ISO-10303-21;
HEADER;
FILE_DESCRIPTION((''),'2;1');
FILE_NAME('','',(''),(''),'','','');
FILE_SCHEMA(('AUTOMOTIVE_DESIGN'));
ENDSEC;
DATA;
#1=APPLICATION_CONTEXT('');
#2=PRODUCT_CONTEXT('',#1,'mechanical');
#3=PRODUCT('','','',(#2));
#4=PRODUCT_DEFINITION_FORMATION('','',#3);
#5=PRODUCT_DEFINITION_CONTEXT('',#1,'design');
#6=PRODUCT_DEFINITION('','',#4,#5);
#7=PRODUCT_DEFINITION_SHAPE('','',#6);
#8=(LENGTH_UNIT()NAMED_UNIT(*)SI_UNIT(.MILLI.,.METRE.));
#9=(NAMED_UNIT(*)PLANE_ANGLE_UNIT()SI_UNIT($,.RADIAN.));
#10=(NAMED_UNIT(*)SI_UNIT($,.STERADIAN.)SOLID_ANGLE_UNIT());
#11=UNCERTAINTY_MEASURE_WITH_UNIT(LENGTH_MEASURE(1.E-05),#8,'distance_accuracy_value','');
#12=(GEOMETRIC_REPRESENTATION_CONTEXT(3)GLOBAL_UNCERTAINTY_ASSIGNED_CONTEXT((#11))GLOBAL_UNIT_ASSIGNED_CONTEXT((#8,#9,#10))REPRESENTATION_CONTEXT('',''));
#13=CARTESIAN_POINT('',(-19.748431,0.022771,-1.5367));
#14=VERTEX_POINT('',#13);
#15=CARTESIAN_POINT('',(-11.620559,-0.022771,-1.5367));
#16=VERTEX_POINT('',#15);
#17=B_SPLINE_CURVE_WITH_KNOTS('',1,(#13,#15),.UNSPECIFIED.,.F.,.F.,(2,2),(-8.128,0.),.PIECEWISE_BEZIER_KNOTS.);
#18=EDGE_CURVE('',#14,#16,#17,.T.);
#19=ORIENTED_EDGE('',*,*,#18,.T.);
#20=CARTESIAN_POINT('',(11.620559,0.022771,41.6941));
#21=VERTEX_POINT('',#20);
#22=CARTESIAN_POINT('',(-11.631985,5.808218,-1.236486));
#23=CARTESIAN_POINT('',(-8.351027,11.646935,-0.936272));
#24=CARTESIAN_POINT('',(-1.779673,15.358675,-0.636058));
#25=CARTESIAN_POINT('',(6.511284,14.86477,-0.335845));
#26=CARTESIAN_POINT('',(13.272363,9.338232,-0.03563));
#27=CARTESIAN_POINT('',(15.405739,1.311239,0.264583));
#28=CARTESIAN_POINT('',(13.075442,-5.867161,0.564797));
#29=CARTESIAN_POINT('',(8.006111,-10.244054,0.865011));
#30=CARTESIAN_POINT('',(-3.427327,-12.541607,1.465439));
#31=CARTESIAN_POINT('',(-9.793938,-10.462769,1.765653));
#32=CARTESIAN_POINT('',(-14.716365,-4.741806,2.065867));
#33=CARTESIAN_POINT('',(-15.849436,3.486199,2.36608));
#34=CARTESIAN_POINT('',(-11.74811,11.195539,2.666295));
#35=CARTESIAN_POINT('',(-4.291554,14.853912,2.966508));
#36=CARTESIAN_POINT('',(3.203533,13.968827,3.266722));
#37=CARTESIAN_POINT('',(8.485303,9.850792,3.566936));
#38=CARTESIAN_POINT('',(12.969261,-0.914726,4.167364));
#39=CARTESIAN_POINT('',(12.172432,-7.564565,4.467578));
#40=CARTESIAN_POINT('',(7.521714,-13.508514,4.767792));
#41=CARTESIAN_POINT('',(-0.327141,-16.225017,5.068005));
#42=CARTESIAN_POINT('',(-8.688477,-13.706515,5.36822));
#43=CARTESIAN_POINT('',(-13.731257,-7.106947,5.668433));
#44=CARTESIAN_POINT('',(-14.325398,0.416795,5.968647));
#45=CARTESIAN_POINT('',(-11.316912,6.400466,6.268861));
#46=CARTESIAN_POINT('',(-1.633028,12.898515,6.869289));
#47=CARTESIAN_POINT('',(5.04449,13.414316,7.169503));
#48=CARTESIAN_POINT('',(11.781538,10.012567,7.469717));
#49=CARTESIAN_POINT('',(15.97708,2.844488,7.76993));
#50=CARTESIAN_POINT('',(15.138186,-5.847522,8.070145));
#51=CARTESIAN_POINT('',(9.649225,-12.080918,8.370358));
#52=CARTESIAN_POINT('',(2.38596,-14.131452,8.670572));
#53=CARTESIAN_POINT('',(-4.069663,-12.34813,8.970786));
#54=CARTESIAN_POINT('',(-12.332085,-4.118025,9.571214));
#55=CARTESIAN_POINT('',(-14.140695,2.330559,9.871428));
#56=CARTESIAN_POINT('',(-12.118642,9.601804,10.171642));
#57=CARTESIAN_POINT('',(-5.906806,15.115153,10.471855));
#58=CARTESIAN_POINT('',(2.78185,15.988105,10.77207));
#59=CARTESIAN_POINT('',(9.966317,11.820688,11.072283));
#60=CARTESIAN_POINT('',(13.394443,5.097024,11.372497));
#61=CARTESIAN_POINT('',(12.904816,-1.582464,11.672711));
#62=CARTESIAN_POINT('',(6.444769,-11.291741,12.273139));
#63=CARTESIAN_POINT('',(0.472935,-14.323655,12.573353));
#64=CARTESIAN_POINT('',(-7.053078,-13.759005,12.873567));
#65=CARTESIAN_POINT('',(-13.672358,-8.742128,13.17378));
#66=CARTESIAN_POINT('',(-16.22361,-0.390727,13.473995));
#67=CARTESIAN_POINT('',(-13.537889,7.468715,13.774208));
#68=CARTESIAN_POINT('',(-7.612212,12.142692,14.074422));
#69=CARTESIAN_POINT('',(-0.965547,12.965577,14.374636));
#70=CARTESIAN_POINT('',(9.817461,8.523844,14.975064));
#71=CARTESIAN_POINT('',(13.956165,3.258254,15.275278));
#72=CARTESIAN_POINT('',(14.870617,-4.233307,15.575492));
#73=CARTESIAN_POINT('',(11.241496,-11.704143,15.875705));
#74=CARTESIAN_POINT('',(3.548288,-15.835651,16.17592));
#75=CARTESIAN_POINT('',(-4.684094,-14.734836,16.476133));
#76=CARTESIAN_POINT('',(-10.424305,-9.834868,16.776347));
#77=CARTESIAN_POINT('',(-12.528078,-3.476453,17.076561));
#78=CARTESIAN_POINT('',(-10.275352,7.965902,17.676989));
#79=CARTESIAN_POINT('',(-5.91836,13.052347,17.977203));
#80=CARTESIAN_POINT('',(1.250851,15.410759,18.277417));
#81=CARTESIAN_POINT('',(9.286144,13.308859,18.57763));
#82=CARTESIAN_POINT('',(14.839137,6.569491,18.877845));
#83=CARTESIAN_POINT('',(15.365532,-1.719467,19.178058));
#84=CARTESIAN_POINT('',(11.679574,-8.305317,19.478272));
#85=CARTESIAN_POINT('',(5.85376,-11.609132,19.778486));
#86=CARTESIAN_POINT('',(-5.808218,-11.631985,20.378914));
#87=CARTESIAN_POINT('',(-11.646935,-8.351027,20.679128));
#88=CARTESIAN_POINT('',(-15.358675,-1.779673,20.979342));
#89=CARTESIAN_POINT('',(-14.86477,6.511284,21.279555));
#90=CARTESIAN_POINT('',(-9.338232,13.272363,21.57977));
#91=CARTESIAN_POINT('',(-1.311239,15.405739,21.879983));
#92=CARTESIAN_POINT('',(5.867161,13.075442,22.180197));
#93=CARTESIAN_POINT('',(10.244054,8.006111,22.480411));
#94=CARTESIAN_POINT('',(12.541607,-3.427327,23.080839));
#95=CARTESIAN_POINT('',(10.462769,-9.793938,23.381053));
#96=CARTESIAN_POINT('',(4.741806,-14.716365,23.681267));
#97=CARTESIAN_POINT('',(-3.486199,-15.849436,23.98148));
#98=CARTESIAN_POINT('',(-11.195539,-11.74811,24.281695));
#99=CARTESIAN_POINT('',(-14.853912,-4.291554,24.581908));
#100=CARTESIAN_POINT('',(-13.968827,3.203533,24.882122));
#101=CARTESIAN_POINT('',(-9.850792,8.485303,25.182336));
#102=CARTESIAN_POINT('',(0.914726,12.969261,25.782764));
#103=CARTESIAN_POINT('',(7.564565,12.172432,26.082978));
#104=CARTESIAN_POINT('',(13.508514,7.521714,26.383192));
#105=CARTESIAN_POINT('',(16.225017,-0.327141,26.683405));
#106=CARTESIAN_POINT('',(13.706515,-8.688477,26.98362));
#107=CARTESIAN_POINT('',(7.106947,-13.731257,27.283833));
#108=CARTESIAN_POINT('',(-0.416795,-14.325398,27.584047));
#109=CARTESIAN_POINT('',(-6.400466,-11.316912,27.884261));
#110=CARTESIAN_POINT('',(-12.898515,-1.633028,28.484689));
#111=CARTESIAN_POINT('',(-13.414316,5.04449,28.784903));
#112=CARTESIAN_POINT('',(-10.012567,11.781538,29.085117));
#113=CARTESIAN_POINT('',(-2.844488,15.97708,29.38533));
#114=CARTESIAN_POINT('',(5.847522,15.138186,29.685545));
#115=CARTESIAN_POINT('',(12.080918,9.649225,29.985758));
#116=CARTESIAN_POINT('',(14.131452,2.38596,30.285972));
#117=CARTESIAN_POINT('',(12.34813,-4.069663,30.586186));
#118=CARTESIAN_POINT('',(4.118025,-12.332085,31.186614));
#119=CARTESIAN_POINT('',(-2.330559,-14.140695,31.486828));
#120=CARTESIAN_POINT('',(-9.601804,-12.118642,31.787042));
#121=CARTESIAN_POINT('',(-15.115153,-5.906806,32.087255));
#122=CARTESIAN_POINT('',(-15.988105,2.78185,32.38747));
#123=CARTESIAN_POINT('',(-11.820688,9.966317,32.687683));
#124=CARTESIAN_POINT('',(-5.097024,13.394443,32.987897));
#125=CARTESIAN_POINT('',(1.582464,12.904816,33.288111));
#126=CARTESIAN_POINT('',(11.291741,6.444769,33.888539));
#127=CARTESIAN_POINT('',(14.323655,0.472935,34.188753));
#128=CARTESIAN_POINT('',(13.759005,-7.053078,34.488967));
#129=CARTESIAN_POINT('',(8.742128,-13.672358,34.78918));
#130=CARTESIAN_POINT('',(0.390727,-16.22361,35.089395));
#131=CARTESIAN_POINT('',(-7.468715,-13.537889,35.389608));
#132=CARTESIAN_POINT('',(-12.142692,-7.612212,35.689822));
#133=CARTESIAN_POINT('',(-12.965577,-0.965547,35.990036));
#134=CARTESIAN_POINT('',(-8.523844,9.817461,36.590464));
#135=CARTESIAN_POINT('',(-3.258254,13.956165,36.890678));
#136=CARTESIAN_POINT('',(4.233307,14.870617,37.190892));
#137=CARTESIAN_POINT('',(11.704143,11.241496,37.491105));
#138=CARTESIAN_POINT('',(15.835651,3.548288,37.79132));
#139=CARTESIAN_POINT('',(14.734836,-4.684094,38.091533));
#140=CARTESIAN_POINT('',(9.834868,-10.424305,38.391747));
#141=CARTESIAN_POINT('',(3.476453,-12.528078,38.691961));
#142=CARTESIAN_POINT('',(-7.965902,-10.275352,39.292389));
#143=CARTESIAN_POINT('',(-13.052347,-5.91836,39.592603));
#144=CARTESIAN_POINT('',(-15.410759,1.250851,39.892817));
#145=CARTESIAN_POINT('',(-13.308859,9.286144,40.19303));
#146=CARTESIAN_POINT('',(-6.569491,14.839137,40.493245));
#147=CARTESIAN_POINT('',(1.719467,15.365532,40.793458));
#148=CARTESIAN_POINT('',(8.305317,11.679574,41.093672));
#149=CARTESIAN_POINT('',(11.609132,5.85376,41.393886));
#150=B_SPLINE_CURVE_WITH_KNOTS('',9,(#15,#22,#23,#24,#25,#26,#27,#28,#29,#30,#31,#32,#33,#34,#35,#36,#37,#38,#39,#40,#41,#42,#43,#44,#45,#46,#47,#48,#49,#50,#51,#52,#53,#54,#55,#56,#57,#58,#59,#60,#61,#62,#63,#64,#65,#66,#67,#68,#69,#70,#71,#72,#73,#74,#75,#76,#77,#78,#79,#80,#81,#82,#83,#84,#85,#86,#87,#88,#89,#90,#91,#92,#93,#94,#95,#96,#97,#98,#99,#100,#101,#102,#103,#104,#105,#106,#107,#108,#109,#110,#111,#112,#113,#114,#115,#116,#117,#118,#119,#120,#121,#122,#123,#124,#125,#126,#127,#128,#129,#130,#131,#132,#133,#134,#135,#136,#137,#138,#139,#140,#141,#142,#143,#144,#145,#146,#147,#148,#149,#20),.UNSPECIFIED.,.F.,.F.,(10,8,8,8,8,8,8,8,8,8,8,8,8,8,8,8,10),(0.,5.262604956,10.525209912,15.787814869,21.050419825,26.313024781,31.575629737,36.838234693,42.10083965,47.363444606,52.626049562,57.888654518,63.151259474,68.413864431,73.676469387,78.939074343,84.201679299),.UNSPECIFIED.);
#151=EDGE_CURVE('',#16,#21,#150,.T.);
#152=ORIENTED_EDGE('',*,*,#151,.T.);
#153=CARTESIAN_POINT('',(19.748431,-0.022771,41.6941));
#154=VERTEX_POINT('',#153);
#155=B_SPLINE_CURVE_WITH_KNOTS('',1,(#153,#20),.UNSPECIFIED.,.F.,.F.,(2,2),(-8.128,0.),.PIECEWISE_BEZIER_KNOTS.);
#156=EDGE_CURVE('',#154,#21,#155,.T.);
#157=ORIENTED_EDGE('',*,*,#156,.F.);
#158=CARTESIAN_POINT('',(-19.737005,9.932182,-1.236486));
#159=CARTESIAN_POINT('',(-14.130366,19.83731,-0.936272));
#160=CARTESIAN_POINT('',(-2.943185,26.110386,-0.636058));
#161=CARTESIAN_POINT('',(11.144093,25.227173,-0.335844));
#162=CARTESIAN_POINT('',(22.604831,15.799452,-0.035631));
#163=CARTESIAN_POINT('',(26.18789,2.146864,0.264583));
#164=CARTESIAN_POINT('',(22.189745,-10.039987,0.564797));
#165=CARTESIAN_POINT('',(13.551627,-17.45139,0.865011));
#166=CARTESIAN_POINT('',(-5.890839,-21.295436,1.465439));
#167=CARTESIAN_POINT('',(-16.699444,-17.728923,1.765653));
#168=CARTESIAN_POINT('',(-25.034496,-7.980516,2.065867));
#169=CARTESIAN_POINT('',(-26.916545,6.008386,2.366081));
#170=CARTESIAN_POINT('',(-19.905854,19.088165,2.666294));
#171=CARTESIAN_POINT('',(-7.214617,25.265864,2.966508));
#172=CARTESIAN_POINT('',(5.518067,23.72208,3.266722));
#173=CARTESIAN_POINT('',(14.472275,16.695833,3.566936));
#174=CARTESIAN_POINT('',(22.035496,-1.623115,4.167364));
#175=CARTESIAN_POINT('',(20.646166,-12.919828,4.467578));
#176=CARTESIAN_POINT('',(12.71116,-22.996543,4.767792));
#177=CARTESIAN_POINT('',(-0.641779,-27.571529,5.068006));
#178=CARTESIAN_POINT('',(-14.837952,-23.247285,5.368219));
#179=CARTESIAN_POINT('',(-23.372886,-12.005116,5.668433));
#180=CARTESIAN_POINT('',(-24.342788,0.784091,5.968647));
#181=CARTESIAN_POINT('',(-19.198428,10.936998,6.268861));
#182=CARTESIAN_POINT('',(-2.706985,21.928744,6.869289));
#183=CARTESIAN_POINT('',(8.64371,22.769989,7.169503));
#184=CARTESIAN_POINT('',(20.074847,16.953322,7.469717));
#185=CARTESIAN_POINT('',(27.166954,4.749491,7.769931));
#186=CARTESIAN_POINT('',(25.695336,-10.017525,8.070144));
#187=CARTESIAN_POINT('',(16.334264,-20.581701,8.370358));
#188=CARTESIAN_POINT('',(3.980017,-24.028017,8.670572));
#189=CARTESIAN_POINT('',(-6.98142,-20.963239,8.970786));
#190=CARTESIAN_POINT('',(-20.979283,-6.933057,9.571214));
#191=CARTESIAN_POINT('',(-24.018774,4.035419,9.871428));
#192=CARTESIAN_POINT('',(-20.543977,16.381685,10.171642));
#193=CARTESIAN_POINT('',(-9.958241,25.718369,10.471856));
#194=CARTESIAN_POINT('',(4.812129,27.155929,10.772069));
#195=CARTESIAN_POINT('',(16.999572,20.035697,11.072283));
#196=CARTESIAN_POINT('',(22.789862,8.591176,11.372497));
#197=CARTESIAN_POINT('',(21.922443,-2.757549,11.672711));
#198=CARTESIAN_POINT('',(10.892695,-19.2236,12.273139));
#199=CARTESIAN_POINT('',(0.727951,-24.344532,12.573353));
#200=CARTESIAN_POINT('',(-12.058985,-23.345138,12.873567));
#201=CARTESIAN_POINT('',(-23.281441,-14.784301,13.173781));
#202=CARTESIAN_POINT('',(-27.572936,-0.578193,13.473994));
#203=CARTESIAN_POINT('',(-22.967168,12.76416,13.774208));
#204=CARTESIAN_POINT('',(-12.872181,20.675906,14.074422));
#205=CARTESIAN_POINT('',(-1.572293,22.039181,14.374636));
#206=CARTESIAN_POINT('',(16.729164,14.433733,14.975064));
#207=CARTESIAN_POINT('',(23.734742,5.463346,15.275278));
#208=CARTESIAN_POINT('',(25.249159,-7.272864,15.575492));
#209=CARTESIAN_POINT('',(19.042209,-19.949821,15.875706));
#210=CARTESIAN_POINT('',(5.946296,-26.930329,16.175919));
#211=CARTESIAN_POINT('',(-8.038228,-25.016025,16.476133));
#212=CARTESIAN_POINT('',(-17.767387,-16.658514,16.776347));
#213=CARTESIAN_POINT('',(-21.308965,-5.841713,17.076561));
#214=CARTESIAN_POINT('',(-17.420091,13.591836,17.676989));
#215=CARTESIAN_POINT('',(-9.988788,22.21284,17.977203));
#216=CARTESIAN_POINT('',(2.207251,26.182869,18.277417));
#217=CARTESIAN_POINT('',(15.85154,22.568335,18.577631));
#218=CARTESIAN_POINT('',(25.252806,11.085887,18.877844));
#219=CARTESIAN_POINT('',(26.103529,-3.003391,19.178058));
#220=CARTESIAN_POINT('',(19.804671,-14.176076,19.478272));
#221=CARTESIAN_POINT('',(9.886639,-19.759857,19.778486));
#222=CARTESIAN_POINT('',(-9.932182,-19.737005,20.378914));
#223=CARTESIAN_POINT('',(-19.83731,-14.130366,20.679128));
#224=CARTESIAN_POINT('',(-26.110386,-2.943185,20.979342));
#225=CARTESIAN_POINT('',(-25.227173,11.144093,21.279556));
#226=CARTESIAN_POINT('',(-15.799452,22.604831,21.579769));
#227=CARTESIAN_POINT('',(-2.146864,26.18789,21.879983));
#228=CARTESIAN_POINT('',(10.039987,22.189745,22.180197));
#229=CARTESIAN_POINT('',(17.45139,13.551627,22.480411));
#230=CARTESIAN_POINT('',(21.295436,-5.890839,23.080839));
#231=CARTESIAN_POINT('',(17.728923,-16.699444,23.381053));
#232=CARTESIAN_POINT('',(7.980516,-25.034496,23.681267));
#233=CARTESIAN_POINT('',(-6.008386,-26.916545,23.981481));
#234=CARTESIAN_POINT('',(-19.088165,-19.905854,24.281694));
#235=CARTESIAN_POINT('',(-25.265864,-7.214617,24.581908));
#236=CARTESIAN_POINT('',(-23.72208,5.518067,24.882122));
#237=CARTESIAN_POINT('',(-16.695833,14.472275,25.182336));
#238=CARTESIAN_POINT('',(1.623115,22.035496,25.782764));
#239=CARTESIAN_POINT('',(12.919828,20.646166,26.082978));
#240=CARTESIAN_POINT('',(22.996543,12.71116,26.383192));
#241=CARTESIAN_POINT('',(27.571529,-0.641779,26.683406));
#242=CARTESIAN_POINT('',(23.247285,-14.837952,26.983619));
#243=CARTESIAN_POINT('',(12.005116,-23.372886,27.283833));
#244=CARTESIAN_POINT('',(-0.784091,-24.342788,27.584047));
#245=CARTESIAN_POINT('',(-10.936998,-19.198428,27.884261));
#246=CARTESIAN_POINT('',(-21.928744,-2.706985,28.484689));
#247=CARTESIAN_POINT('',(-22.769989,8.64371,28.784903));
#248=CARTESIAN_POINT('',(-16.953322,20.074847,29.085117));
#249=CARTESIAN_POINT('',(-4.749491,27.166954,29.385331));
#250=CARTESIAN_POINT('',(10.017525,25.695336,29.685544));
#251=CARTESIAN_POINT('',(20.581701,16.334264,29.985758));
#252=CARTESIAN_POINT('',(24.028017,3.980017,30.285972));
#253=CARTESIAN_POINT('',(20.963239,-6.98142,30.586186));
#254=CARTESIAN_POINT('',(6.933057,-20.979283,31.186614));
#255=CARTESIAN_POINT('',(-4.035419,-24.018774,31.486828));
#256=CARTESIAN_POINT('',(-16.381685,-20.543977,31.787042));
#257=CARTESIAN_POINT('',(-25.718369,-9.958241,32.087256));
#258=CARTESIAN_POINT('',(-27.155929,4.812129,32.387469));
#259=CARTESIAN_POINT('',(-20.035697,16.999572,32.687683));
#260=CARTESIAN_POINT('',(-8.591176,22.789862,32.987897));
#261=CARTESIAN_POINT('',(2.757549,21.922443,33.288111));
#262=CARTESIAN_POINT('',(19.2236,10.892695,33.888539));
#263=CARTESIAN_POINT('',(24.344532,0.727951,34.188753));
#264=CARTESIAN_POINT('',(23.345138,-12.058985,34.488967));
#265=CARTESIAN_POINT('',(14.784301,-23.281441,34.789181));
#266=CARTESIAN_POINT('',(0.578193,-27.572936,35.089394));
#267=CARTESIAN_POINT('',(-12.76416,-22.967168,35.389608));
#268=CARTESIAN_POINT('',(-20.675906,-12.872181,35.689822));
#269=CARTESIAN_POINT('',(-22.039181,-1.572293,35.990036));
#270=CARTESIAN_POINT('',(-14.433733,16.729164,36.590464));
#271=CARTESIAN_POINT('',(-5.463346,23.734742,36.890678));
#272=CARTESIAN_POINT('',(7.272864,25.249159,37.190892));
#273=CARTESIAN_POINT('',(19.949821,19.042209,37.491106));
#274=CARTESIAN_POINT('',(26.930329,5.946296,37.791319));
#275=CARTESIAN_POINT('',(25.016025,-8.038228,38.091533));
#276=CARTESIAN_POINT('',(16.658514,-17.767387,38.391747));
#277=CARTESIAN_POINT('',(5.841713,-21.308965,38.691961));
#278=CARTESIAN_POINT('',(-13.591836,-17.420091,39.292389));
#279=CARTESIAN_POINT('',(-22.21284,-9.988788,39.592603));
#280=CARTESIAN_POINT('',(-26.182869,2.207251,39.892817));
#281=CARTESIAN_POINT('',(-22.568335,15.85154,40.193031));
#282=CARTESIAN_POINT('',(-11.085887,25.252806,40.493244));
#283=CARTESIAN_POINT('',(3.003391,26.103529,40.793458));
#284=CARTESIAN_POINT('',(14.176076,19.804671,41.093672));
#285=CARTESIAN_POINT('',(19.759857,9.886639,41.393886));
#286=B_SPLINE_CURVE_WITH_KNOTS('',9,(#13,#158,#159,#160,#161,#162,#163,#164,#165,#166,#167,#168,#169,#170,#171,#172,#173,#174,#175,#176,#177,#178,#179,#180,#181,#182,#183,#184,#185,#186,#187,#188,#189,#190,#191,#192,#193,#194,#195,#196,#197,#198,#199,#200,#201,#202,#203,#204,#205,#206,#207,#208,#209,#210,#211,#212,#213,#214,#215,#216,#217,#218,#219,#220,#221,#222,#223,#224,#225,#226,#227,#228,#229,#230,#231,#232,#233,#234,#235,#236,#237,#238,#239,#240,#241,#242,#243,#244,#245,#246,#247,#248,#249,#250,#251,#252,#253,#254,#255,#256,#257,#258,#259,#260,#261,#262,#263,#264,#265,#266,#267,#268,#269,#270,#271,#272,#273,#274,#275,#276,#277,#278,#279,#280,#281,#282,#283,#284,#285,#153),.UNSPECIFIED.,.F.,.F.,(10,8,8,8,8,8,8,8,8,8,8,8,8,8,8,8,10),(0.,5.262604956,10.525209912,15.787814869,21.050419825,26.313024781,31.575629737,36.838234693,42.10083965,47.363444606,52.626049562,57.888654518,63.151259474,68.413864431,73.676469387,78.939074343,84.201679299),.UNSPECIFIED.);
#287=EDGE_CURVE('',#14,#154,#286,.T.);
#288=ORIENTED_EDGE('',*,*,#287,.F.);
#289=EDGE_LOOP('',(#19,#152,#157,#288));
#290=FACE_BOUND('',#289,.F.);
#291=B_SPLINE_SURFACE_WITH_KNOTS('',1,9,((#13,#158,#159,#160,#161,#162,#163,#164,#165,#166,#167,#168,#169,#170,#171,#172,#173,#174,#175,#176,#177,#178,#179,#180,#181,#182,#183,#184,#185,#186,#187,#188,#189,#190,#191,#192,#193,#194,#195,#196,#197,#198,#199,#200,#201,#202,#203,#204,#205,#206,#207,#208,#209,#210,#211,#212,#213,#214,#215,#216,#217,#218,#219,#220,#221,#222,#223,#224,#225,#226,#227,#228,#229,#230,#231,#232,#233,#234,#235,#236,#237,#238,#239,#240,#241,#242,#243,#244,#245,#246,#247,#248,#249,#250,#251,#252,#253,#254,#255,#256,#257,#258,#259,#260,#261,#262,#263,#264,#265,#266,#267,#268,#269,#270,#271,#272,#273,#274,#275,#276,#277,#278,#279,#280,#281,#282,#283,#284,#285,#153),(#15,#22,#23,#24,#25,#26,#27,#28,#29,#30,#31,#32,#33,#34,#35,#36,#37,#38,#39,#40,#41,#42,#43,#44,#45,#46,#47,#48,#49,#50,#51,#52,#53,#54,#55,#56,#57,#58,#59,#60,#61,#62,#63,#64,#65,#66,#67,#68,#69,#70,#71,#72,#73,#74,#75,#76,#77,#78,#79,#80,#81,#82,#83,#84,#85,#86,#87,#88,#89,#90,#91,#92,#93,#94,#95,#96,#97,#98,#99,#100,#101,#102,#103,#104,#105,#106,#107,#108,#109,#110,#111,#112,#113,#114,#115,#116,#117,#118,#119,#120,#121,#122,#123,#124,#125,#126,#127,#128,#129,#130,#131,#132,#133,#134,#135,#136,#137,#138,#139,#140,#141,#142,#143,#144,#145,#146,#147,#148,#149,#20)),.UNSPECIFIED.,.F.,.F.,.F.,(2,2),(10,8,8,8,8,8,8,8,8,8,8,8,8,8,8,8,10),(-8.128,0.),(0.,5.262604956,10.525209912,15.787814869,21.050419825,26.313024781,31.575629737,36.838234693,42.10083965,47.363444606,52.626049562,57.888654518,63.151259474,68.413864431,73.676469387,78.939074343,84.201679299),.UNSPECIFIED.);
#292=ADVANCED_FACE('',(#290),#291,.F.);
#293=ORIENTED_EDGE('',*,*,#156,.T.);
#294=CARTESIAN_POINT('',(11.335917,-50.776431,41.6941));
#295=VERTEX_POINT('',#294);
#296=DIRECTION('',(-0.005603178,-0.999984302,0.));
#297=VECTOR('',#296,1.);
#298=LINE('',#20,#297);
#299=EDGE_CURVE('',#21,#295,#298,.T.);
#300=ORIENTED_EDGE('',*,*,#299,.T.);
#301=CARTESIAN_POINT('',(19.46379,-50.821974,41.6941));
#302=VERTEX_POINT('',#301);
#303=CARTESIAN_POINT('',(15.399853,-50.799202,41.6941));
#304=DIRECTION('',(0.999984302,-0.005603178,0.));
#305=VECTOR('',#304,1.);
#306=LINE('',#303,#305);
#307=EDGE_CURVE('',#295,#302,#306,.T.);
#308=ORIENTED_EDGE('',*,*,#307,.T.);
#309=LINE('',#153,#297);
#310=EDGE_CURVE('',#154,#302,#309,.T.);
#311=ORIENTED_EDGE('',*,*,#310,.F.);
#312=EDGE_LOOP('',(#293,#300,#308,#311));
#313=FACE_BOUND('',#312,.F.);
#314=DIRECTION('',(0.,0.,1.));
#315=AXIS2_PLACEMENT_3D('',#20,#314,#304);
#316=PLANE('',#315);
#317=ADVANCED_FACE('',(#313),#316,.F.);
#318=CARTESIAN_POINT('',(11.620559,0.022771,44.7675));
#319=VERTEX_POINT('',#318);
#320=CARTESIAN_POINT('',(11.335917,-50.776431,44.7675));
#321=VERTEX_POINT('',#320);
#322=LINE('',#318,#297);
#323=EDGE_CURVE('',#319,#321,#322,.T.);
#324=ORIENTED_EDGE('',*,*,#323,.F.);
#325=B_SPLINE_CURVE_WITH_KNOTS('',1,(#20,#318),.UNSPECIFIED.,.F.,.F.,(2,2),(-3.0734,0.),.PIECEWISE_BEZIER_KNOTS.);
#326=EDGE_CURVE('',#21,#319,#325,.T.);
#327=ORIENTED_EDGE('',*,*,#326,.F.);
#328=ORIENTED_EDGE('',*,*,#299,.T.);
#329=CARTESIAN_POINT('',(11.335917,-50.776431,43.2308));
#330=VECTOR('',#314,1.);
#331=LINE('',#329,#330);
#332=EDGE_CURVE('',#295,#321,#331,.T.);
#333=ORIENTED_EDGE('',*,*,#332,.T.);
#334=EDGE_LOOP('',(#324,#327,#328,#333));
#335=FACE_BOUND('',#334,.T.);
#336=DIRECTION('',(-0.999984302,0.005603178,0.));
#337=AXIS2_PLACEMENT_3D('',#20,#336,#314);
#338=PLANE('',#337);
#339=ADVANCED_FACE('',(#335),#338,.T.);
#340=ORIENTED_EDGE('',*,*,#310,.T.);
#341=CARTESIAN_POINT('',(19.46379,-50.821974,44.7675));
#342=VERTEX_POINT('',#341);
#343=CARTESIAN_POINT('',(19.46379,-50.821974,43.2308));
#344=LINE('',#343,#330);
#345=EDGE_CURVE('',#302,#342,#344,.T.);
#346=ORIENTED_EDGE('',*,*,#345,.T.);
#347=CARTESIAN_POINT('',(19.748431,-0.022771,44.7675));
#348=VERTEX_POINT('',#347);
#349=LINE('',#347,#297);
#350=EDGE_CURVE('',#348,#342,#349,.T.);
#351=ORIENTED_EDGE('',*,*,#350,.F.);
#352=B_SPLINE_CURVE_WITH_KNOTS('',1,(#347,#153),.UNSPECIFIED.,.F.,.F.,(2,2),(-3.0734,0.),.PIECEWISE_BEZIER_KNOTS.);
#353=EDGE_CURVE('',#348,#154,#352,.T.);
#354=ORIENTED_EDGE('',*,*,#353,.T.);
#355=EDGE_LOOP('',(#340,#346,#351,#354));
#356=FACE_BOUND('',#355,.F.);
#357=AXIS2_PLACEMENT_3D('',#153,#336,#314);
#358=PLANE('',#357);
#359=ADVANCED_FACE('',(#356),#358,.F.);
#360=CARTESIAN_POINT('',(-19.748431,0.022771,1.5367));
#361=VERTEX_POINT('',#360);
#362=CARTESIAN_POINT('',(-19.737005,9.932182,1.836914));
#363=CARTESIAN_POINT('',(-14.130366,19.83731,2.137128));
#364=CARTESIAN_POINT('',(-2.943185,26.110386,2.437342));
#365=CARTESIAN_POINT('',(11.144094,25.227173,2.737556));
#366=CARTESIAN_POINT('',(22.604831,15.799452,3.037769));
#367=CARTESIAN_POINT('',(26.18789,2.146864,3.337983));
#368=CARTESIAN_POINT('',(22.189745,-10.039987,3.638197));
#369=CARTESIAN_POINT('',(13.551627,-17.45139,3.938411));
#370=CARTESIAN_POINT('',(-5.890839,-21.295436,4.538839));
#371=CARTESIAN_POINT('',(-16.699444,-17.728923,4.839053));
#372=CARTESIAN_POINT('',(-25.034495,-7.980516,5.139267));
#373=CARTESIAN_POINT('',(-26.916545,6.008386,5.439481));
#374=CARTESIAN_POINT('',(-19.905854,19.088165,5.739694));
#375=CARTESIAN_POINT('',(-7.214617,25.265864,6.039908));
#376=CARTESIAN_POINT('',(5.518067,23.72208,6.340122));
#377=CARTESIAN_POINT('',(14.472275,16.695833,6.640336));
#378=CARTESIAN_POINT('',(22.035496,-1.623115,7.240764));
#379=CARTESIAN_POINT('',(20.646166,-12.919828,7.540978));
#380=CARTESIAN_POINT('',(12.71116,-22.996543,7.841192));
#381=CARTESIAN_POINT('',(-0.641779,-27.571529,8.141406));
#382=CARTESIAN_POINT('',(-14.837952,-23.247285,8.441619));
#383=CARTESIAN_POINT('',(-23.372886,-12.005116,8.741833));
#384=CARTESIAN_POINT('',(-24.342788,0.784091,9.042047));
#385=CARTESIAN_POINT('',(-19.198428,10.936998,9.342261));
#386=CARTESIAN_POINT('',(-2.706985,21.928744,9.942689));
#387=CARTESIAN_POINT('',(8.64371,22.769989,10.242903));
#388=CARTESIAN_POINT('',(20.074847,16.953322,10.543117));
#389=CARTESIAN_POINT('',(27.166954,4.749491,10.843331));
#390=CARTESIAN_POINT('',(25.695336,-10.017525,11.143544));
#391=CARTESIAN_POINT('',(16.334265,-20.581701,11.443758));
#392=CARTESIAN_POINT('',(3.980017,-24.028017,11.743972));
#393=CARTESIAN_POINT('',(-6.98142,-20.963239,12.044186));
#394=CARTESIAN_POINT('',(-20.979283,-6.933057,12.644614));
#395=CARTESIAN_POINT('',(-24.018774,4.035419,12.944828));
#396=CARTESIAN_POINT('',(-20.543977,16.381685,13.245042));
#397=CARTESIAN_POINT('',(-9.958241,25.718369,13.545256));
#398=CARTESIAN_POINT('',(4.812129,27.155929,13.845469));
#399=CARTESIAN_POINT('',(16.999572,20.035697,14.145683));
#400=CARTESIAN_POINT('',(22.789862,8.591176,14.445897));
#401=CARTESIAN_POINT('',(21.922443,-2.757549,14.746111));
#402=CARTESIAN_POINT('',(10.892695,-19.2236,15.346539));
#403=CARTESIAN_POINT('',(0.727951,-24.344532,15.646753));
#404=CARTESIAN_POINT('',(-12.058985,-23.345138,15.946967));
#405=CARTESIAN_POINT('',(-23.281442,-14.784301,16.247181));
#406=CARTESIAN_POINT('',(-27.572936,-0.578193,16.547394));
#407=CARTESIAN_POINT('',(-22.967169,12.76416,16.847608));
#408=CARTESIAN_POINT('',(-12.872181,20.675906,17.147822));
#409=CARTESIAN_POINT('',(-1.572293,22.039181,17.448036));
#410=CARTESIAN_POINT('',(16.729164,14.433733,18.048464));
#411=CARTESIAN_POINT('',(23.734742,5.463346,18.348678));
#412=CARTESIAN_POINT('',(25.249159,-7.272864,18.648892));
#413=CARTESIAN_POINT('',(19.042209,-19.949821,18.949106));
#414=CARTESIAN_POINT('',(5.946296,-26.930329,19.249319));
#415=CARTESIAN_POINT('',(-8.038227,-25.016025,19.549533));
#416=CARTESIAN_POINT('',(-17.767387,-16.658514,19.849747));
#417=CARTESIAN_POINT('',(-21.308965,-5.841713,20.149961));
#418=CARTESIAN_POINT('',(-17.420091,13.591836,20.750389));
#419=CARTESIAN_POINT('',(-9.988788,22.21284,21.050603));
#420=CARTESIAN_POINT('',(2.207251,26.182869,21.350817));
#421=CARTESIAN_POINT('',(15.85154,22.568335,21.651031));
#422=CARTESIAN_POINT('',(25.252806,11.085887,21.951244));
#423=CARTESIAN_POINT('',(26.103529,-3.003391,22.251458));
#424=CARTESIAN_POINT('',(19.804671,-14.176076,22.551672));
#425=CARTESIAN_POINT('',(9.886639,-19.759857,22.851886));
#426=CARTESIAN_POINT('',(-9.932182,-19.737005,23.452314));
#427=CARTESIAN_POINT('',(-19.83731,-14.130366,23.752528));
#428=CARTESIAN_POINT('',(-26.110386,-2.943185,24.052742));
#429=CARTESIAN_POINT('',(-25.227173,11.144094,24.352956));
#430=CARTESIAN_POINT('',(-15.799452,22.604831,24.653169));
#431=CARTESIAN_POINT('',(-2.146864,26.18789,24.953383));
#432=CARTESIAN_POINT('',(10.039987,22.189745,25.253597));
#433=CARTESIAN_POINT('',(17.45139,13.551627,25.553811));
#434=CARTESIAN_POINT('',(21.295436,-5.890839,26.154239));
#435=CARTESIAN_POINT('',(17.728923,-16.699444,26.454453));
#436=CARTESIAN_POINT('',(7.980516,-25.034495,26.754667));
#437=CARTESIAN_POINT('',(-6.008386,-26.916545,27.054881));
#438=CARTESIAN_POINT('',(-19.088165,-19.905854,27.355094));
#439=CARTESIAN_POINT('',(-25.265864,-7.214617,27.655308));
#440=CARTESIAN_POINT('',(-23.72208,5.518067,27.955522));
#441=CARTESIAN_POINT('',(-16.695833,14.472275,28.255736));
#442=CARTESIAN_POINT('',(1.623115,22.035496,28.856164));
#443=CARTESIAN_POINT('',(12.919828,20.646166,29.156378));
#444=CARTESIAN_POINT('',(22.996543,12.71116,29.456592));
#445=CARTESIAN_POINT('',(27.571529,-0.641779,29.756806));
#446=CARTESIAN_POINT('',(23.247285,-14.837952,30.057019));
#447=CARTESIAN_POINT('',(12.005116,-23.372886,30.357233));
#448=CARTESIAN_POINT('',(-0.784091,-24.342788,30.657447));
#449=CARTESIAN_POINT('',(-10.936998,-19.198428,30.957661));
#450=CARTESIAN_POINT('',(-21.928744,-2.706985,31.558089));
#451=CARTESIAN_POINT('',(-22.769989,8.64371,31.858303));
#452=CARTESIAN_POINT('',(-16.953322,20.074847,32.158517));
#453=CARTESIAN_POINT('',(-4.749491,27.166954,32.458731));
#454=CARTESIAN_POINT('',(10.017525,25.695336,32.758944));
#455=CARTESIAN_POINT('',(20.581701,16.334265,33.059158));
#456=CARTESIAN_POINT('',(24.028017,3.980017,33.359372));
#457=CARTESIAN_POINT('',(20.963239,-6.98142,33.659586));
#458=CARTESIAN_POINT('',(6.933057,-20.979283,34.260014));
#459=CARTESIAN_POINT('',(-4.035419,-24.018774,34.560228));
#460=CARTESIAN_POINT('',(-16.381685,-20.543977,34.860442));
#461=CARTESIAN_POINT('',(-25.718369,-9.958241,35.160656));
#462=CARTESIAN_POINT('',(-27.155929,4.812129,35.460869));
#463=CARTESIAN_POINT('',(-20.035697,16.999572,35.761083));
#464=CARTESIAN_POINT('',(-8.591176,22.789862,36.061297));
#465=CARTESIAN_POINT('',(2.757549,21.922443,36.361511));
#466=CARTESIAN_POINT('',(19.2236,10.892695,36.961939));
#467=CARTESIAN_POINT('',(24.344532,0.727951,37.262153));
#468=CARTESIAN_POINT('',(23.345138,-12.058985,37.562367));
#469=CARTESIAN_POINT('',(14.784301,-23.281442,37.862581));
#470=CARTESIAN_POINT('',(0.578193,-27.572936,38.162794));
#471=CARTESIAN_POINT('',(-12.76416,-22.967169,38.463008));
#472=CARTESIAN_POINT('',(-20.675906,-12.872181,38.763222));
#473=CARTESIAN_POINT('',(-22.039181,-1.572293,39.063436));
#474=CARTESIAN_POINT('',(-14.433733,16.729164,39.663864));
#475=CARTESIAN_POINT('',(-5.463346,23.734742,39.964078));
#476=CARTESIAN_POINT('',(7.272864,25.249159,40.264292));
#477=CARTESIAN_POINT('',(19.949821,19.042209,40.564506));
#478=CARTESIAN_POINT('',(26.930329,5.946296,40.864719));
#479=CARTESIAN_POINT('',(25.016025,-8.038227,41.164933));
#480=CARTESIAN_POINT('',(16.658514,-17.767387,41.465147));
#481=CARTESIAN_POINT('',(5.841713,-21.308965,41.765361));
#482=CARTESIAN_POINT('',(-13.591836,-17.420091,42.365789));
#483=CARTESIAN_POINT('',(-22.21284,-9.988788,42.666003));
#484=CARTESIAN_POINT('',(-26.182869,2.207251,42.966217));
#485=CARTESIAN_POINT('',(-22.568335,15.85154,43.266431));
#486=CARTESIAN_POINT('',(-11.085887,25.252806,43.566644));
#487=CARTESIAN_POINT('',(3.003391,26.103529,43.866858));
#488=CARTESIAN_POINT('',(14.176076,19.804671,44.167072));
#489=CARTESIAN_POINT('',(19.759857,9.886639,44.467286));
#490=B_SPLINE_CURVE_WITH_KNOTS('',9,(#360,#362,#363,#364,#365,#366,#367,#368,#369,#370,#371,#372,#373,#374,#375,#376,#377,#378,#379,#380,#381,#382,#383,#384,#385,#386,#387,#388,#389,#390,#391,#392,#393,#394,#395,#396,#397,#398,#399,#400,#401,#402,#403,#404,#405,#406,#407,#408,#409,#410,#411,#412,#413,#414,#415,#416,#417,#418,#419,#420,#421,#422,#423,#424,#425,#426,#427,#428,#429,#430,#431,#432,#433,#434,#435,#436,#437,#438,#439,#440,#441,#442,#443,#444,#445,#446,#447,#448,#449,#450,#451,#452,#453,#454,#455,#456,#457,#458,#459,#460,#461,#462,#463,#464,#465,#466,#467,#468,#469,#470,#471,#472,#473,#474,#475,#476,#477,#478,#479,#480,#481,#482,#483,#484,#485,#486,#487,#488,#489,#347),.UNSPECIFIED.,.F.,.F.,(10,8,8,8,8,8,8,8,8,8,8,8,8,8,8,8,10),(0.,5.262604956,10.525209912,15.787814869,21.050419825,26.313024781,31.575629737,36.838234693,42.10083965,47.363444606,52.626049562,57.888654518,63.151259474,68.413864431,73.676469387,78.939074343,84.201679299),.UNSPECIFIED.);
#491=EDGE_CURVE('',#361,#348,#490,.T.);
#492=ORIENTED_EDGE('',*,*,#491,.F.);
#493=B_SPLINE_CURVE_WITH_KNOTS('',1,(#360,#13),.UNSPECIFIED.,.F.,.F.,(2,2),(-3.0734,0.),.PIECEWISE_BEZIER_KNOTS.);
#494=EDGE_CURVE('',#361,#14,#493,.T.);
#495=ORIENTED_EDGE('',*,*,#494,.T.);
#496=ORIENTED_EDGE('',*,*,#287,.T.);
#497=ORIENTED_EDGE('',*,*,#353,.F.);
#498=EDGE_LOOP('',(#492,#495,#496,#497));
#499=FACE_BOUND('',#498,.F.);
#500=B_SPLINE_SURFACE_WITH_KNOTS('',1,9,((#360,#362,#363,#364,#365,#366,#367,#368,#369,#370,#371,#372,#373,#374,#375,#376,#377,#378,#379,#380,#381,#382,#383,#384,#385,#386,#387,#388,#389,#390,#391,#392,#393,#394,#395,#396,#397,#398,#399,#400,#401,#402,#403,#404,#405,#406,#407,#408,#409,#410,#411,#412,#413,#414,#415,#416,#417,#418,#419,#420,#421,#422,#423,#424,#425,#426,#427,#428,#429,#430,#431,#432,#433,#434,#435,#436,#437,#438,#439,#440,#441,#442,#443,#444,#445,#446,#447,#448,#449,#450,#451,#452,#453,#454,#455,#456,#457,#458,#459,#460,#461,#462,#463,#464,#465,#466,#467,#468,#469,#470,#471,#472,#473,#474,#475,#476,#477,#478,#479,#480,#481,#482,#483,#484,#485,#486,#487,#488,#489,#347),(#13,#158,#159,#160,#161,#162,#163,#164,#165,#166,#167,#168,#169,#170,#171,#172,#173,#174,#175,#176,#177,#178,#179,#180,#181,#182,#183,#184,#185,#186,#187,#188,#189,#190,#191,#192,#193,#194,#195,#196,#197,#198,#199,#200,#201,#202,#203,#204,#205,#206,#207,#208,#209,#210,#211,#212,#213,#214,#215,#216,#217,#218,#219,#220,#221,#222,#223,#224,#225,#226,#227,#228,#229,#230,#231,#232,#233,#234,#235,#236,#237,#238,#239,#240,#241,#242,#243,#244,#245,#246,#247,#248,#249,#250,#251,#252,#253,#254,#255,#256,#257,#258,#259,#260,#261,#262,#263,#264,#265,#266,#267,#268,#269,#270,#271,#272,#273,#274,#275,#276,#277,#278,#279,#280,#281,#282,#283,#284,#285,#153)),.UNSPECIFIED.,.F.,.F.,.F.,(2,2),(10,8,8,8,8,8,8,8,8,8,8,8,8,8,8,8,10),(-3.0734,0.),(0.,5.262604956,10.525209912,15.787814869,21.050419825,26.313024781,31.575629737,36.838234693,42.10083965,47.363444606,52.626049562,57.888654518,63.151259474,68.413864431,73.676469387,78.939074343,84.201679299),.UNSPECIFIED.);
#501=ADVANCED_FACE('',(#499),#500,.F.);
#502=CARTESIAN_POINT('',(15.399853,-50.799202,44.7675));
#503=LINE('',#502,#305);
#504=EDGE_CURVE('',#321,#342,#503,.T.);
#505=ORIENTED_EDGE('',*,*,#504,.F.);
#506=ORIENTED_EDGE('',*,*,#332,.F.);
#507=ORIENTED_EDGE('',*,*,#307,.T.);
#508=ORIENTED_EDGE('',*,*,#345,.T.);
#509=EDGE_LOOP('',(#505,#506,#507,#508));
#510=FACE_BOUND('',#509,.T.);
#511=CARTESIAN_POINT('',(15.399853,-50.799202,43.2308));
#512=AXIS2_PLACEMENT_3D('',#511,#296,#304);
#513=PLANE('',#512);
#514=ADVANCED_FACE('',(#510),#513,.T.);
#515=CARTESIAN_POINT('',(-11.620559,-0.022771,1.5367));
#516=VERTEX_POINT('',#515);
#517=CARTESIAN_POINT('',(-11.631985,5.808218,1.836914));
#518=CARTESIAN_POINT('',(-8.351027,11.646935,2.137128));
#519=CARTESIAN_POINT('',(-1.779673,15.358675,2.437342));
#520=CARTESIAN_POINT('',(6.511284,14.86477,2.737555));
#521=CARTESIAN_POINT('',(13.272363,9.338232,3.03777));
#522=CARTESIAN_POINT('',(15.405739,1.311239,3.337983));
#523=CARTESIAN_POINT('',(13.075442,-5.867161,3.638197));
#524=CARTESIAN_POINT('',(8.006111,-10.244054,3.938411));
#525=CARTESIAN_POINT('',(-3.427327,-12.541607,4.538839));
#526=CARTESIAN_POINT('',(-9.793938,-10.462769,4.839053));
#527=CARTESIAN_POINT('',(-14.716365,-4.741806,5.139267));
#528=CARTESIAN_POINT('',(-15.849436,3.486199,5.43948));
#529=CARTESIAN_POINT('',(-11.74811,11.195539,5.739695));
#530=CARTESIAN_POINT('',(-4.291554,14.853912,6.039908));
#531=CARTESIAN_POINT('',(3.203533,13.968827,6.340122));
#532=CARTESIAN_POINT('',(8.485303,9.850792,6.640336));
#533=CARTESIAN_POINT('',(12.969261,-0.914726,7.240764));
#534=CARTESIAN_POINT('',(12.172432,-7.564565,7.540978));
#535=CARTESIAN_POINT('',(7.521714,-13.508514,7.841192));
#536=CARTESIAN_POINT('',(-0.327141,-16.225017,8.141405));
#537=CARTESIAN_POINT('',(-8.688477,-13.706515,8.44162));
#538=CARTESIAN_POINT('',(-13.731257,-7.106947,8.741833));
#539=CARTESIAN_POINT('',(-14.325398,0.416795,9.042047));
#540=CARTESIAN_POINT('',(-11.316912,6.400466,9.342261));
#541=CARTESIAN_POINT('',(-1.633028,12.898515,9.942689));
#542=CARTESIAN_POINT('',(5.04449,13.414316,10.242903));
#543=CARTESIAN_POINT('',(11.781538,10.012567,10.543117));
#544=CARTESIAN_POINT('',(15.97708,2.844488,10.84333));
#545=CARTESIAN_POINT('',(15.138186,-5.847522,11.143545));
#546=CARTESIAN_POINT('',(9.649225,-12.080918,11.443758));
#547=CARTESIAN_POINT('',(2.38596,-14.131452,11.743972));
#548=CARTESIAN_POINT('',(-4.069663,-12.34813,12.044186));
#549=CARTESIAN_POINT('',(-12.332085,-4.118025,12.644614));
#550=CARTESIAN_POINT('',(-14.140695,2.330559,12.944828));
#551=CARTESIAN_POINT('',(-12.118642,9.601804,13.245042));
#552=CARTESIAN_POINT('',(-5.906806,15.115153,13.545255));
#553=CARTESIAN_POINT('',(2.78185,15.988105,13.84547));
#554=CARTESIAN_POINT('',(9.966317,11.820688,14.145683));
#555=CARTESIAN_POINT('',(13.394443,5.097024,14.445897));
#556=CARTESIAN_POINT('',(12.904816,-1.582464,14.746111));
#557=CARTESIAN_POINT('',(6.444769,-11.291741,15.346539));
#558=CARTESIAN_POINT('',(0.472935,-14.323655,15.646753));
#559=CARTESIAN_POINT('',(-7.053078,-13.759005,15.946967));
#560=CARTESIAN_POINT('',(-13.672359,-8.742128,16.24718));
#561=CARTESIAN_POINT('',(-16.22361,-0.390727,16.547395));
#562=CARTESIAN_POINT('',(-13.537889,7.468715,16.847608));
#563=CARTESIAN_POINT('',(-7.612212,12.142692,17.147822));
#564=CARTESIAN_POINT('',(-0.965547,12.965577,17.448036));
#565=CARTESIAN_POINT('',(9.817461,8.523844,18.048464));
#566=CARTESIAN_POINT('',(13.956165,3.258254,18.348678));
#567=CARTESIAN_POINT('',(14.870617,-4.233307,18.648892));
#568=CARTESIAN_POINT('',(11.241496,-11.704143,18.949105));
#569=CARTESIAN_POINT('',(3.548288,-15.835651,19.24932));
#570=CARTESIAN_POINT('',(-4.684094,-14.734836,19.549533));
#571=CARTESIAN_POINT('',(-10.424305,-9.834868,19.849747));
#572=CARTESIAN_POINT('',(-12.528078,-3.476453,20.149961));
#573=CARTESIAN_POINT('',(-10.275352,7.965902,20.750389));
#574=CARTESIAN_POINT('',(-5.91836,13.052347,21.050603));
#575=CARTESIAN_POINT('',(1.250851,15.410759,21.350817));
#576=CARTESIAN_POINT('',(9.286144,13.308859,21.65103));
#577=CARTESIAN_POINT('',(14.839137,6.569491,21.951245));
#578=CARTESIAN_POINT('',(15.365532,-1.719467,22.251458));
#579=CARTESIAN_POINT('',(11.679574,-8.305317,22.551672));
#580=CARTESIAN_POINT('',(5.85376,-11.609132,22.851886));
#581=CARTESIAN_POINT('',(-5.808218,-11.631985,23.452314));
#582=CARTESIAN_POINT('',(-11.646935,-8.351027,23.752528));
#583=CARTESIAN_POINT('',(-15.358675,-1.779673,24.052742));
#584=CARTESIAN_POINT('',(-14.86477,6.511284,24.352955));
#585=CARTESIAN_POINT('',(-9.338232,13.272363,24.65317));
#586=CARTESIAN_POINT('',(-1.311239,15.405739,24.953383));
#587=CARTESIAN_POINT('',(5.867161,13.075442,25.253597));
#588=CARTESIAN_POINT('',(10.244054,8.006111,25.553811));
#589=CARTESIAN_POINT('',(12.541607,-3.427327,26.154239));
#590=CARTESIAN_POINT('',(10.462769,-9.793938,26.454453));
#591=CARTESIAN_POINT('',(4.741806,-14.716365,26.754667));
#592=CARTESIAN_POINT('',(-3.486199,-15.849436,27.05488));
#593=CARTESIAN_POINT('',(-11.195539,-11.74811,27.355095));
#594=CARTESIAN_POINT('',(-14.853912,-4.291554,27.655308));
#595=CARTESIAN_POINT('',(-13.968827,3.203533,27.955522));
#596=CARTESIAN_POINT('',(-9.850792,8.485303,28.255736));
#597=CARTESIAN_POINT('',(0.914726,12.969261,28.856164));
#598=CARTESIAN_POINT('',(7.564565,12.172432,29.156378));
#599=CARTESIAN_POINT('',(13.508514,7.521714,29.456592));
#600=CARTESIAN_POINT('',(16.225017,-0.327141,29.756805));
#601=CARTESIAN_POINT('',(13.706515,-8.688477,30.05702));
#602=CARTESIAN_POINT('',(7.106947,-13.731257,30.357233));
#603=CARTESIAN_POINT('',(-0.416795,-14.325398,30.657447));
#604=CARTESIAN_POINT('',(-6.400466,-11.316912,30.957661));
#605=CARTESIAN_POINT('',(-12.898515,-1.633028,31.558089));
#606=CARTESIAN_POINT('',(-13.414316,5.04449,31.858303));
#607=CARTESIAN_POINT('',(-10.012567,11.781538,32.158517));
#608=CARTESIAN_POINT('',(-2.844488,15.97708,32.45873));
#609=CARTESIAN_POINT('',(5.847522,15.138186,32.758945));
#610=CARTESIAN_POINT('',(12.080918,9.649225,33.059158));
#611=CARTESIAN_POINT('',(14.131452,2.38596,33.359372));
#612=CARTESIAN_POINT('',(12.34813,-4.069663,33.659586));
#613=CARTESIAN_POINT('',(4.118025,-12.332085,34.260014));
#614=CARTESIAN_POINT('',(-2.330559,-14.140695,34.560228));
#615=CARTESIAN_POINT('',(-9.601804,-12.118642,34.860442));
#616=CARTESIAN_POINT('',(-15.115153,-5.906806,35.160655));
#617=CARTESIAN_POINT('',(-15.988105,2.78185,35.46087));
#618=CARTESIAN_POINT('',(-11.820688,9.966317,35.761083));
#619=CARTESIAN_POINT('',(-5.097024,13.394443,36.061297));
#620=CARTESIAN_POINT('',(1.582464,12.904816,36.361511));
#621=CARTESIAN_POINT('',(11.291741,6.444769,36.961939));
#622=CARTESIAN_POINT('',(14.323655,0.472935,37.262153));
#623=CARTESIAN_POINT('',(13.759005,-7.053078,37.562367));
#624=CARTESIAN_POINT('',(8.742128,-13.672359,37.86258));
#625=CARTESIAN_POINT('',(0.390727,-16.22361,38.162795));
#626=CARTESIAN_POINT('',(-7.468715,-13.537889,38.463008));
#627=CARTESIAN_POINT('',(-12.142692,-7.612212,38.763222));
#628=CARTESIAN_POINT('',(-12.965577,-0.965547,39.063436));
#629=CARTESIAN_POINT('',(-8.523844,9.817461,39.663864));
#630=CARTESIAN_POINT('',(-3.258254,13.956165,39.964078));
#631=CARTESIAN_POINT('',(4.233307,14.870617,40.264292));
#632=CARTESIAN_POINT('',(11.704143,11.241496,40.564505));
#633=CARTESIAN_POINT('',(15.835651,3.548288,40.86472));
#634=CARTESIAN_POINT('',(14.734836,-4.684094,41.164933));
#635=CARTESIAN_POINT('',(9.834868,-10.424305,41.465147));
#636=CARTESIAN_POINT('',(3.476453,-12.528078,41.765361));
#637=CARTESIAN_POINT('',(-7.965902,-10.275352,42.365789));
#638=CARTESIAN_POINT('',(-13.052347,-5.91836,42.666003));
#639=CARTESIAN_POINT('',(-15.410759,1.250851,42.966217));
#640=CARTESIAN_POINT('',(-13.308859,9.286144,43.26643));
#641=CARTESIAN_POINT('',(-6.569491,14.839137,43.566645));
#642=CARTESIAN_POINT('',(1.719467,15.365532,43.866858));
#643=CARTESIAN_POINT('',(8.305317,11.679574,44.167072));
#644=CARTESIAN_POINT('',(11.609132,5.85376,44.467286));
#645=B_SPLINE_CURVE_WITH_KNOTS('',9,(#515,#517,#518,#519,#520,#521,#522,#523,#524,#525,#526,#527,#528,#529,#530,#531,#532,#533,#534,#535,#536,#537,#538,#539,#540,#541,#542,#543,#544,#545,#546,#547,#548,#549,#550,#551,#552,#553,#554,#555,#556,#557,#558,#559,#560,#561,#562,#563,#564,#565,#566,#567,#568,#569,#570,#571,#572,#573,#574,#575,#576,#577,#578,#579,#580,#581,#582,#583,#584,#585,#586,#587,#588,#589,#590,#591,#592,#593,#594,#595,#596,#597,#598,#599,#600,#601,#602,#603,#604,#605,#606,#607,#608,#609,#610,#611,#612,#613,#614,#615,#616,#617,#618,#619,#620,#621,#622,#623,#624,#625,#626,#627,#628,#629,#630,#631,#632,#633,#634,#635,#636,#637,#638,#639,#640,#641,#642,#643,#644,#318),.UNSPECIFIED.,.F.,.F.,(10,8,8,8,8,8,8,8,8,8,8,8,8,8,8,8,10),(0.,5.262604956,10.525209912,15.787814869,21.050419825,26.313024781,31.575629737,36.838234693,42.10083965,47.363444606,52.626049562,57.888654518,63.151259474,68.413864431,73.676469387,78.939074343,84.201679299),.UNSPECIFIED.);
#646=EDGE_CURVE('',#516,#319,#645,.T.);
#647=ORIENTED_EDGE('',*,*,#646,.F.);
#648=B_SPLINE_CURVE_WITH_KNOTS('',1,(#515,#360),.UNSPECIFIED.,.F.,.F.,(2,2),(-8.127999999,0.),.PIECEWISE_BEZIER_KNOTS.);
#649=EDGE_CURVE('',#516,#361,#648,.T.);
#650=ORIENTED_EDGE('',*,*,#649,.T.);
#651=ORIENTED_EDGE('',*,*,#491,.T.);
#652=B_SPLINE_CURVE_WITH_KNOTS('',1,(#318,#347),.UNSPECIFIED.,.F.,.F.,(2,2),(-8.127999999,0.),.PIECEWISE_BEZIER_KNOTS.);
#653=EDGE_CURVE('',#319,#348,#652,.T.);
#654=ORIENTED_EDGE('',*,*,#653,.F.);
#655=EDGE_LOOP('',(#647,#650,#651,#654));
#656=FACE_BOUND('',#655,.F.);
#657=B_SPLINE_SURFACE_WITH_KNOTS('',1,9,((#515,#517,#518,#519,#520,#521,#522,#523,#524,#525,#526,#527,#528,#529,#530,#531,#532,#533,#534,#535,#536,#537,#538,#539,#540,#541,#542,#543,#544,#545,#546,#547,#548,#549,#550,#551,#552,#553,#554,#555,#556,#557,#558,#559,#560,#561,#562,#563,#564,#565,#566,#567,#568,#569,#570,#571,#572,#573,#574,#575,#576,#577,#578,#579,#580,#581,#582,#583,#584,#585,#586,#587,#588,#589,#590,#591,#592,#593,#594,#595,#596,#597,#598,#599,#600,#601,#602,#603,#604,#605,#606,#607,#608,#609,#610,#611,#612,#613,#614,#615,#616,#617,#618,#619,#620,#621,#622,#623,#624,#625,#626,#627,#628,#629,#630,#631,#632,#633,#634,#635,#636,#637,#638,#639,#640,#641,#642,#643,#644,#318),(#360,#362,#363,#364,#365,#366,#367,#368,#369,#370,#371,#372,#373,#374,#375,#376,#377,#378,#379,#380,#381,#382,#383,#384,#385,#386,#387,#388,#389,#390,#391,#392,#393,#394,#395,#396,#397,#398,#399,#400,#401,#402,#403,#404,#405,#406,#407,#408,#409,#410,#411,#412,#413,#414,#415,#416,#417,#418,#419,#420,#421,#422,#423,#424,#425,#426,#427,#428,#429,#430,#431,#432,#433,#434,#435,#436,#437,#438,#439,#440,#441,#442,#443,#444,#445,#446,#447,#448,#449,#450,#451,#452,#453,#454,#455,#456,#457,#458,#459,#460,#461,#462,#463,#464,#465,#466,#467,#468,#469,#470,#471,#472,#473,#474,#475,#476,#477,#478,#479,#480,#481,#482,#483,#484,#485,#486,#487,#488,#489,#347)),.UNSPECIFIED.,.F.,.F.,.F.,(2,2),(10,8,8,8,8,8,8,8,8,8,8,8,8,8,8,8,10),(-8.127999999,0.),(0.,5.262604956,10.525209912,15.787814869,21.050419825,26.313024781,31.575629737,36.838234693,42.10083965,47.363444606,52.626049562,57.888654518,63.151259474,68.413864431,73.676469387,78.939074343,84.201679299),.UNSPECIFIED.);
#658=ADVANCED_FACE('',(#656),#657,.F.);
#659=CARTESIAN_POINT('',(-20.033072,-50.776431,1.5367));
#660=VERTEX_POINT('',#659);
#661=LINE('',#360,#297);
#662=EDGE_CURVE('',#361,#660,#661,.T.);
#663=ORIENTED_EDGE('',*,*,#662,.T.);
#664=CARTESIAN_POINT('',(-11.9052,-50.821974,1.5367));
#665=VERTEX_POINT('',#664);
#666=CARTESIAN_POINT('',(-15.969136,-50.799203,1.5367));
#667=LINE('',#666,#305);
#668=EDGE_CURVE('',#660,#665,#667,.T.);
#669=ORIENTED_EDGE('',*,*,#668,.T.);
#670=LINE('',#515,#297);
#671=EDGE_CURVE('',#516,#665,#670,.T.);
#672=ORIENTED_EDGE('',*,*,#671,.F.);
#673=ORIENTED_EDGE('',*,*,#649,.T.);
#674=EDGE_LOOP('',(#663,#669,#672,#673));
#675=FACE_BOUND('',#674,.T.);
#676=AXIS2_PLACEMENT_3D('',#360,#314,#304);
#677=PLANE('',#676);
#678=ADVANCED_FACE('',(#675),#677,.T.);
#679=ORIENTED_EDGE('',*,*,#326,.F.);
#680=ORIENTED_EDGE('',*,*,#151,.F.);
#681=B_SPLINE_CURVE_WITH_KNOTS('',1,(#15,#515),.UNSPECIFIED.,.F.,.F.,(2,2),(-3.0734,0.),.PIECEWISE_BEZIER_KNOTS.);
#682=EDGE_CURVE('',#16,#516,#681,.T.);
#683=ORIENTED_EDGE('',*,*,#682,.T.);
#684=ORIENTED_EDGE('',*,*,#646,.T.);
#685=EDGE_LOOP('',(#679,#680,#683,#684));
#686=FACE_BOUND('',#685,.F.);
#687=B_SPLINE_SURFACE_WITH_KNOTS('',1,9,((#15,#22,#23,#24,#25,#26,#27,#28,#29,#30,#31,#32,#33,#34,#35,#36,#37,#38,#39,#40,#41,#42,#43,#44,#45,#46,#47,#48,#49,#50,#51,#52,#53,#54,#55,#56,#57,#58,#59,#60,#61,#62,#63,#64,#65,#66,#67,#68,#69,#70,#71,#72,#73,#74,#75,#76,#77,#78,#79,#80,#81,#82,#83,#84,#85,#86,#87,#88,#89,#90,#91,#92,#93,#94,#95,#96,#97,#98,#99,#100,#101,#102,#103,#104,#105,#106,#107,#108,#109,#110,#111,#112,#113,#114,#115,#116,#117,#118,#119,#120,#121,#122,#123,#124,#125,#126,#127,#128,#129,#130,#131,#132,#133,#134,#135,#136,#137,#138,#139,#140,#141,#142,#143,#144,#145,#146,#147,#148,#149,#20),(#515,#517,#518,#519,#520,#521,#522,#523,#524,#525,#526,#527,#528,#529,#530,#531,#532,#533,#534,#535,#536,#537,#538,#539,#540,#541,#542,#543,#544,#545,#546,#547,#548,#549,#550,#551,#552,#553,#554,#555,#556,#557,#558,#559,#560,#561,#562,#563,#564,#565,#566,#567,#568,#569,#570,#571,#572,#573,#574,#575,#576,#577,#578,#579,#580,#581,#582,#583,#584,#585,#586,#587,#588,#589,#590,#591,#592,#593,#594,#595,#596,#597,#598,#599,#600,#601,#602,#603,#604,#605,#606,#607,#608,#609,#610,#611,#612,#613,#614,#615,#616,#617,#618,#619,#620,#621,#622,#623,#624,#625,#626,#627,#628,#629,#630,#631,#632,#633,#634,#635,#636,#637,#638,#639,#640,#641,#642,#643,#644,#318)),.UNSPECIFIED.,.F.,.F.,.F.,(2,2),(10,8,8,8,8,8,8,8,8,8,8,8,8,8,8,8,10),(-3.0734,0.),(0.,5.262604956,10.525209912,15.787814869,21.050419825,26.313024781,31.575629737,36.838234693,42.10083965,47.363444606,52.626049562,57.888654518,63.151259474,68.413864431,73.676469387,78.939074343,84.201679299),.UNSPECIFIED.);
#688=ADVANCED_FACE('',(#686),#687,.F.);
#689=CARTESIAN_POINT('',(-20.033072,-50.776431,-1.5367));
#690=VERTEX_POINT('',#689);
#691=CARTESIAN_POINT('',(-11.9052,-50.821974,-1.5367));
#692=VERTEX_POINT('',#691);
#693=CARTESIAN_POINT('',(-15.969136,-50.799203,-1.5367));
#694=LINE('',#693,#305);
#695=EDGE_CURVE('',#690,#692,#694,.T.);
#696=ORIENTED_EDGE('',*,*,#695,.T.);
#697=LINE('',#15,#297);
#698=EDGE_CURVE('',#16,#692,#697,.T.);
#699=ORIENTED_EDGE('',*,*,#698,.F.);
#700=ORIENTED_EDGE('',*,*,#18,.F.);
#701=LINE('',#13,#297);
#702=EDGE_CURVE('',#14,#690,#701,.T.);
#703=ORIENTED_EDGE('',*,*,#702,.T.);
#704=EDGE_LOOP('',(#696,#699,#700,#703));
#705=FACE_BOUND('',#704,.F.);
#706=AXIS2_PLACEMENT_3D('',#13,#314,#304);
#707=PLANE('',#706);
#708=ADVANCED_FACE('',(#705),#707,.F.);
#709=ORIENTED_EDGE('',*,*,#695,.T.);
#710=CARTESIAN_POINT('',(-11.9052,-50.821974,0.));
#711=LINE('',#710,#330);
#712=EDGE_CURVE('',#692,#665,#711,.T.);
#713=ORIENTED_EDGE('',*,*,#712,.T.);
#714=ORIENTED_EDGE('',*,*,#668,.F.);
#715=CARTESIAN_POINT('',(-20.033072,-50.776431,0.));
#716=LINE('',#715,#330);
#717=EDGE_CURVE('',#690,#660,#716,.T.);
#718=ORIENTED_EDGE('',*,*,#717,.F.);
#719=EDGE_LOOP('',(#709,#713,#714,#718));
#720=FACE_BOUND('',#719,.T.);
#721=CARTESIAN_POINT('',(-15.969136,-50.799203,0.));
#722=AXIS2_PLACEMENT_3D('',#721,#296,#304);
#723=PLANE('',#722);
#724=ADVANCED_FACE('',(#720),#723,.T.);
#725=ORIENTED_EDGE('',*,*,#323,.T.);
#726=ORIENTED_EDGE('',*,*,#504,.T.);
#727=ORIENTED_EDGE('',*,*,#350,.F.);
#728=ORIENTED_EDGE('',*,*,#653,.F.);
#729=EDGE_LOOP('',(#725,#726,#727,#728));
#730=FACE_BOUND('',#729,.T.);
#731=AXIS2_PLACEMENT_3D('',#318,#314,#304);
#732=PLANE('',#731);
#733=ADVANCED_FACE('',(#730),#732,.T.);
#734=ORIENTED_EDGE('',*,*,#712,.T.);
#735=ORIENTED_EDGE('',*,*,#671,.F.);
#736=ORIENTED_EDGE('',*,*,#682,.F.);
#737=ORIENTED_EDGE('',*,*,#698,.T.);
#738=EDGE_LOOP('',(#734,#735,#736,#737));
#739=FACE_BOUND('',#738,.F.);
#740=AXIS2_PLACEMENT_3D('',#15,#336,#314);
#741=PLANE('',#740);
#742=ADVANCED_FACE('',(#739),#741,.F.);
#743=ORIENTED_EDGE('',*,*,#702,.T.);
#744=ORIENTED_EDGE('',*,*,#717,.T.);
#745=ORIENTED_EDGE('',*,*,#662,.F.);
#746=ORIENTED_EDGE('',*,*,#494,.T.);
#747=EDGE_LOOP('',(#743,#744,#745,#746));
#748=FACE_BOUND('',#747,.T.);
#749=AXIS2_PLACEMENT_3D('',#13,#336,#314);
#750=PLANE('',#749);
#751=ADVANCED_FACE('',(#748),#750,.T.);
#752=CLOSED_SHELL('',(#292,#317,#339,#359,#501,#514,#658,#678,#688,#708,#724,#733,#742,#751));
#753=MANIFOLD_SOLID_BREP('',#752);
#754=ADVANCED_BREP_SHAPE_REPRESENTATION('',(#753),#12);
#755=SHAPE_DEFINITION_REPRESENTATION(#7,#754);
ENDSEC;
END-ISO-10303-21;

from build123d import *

# Parameters (mm, degrees)
SWEEP2_PITCH        = 3.7592
SWEEP2_HEIGHT       = 43.2308
SWEEP2_RADIUS       = 15.6845
SWEEP2_START_ANGLE  = -180
SKETCH3_W           = 8.128
SKETCH3_H           = 3.0734
BOSS_EXTRUDE1_DEPTH = 50.8
SKETCH4_W           = 8.128
SKETCH4_H           = 3.0734
BOSS_EXTRUDE2_DEPTH = 50.8


with BuildPart() as part:
    # Sweep2: sweep along a helix
    with BuildLine() as sweep2_path:
        add(Helix(SWEEP2_PITCH, SWEEP2_HEIGHT, SWEEP2_RADIUS, center=(0, 0, 0), direction=(0, 0, 1), lefthand=True, mode=Mode.PRIVATE).rotate(Axis((0, 0, 0), (0, 0, 1)), SWEEP2_START_ANGLE))
    # 3DSketch4 → Sweep2 (sweep)
    with BuildSketch(Plane(origin=(19.748248584, 0.087883104, 41.690747617), x_dir=(-0.935364679599574, 0, 0.35368476947358946), z_dir=(0, 1, 0))):
        Polygon((0, 0), (1.087014771, 2.874749806), (8.689658886, 0), (7.602644116, -2.874749806), align=None)
    sweep(path=sweep2_path.line, is_frenet=True)

    # Sketch3 → Boss-Extrude1 (add)
    with BuildSketch(Plane(origin=(-0.000492425, -0.087881724, 0), x_dir=(0.999984302077162, -0.005603177603034767, 0), z_dir=(-0.005603177603034767, -0.999984302077162, 0))):
        with Locations((-15.684248584, -1.1e-08)):
            Rectangle(SKETCH3_W, SKETCH3_H)
    extrude(amount=BOSS_EXTRUDE1_DEPTH)

    # Sketch4 → Boss-Extrude2 (add)
    with BuildSketch(Plane(origin=(0.000492425, 0.087881724, 0), x_dir=(0.999984302077162, -0.005603177603034642, 0), z_dir=(-0.005603177603034642, -0.999984302077162, 0))):
        with Locations((15.684248584, 43.230799989)):
            Rectangle(SKETCH4_W, SKETCH4_H)
    extrude(amount=BOSS_EXTRUDE2_DEPTH)


solid = part.part
